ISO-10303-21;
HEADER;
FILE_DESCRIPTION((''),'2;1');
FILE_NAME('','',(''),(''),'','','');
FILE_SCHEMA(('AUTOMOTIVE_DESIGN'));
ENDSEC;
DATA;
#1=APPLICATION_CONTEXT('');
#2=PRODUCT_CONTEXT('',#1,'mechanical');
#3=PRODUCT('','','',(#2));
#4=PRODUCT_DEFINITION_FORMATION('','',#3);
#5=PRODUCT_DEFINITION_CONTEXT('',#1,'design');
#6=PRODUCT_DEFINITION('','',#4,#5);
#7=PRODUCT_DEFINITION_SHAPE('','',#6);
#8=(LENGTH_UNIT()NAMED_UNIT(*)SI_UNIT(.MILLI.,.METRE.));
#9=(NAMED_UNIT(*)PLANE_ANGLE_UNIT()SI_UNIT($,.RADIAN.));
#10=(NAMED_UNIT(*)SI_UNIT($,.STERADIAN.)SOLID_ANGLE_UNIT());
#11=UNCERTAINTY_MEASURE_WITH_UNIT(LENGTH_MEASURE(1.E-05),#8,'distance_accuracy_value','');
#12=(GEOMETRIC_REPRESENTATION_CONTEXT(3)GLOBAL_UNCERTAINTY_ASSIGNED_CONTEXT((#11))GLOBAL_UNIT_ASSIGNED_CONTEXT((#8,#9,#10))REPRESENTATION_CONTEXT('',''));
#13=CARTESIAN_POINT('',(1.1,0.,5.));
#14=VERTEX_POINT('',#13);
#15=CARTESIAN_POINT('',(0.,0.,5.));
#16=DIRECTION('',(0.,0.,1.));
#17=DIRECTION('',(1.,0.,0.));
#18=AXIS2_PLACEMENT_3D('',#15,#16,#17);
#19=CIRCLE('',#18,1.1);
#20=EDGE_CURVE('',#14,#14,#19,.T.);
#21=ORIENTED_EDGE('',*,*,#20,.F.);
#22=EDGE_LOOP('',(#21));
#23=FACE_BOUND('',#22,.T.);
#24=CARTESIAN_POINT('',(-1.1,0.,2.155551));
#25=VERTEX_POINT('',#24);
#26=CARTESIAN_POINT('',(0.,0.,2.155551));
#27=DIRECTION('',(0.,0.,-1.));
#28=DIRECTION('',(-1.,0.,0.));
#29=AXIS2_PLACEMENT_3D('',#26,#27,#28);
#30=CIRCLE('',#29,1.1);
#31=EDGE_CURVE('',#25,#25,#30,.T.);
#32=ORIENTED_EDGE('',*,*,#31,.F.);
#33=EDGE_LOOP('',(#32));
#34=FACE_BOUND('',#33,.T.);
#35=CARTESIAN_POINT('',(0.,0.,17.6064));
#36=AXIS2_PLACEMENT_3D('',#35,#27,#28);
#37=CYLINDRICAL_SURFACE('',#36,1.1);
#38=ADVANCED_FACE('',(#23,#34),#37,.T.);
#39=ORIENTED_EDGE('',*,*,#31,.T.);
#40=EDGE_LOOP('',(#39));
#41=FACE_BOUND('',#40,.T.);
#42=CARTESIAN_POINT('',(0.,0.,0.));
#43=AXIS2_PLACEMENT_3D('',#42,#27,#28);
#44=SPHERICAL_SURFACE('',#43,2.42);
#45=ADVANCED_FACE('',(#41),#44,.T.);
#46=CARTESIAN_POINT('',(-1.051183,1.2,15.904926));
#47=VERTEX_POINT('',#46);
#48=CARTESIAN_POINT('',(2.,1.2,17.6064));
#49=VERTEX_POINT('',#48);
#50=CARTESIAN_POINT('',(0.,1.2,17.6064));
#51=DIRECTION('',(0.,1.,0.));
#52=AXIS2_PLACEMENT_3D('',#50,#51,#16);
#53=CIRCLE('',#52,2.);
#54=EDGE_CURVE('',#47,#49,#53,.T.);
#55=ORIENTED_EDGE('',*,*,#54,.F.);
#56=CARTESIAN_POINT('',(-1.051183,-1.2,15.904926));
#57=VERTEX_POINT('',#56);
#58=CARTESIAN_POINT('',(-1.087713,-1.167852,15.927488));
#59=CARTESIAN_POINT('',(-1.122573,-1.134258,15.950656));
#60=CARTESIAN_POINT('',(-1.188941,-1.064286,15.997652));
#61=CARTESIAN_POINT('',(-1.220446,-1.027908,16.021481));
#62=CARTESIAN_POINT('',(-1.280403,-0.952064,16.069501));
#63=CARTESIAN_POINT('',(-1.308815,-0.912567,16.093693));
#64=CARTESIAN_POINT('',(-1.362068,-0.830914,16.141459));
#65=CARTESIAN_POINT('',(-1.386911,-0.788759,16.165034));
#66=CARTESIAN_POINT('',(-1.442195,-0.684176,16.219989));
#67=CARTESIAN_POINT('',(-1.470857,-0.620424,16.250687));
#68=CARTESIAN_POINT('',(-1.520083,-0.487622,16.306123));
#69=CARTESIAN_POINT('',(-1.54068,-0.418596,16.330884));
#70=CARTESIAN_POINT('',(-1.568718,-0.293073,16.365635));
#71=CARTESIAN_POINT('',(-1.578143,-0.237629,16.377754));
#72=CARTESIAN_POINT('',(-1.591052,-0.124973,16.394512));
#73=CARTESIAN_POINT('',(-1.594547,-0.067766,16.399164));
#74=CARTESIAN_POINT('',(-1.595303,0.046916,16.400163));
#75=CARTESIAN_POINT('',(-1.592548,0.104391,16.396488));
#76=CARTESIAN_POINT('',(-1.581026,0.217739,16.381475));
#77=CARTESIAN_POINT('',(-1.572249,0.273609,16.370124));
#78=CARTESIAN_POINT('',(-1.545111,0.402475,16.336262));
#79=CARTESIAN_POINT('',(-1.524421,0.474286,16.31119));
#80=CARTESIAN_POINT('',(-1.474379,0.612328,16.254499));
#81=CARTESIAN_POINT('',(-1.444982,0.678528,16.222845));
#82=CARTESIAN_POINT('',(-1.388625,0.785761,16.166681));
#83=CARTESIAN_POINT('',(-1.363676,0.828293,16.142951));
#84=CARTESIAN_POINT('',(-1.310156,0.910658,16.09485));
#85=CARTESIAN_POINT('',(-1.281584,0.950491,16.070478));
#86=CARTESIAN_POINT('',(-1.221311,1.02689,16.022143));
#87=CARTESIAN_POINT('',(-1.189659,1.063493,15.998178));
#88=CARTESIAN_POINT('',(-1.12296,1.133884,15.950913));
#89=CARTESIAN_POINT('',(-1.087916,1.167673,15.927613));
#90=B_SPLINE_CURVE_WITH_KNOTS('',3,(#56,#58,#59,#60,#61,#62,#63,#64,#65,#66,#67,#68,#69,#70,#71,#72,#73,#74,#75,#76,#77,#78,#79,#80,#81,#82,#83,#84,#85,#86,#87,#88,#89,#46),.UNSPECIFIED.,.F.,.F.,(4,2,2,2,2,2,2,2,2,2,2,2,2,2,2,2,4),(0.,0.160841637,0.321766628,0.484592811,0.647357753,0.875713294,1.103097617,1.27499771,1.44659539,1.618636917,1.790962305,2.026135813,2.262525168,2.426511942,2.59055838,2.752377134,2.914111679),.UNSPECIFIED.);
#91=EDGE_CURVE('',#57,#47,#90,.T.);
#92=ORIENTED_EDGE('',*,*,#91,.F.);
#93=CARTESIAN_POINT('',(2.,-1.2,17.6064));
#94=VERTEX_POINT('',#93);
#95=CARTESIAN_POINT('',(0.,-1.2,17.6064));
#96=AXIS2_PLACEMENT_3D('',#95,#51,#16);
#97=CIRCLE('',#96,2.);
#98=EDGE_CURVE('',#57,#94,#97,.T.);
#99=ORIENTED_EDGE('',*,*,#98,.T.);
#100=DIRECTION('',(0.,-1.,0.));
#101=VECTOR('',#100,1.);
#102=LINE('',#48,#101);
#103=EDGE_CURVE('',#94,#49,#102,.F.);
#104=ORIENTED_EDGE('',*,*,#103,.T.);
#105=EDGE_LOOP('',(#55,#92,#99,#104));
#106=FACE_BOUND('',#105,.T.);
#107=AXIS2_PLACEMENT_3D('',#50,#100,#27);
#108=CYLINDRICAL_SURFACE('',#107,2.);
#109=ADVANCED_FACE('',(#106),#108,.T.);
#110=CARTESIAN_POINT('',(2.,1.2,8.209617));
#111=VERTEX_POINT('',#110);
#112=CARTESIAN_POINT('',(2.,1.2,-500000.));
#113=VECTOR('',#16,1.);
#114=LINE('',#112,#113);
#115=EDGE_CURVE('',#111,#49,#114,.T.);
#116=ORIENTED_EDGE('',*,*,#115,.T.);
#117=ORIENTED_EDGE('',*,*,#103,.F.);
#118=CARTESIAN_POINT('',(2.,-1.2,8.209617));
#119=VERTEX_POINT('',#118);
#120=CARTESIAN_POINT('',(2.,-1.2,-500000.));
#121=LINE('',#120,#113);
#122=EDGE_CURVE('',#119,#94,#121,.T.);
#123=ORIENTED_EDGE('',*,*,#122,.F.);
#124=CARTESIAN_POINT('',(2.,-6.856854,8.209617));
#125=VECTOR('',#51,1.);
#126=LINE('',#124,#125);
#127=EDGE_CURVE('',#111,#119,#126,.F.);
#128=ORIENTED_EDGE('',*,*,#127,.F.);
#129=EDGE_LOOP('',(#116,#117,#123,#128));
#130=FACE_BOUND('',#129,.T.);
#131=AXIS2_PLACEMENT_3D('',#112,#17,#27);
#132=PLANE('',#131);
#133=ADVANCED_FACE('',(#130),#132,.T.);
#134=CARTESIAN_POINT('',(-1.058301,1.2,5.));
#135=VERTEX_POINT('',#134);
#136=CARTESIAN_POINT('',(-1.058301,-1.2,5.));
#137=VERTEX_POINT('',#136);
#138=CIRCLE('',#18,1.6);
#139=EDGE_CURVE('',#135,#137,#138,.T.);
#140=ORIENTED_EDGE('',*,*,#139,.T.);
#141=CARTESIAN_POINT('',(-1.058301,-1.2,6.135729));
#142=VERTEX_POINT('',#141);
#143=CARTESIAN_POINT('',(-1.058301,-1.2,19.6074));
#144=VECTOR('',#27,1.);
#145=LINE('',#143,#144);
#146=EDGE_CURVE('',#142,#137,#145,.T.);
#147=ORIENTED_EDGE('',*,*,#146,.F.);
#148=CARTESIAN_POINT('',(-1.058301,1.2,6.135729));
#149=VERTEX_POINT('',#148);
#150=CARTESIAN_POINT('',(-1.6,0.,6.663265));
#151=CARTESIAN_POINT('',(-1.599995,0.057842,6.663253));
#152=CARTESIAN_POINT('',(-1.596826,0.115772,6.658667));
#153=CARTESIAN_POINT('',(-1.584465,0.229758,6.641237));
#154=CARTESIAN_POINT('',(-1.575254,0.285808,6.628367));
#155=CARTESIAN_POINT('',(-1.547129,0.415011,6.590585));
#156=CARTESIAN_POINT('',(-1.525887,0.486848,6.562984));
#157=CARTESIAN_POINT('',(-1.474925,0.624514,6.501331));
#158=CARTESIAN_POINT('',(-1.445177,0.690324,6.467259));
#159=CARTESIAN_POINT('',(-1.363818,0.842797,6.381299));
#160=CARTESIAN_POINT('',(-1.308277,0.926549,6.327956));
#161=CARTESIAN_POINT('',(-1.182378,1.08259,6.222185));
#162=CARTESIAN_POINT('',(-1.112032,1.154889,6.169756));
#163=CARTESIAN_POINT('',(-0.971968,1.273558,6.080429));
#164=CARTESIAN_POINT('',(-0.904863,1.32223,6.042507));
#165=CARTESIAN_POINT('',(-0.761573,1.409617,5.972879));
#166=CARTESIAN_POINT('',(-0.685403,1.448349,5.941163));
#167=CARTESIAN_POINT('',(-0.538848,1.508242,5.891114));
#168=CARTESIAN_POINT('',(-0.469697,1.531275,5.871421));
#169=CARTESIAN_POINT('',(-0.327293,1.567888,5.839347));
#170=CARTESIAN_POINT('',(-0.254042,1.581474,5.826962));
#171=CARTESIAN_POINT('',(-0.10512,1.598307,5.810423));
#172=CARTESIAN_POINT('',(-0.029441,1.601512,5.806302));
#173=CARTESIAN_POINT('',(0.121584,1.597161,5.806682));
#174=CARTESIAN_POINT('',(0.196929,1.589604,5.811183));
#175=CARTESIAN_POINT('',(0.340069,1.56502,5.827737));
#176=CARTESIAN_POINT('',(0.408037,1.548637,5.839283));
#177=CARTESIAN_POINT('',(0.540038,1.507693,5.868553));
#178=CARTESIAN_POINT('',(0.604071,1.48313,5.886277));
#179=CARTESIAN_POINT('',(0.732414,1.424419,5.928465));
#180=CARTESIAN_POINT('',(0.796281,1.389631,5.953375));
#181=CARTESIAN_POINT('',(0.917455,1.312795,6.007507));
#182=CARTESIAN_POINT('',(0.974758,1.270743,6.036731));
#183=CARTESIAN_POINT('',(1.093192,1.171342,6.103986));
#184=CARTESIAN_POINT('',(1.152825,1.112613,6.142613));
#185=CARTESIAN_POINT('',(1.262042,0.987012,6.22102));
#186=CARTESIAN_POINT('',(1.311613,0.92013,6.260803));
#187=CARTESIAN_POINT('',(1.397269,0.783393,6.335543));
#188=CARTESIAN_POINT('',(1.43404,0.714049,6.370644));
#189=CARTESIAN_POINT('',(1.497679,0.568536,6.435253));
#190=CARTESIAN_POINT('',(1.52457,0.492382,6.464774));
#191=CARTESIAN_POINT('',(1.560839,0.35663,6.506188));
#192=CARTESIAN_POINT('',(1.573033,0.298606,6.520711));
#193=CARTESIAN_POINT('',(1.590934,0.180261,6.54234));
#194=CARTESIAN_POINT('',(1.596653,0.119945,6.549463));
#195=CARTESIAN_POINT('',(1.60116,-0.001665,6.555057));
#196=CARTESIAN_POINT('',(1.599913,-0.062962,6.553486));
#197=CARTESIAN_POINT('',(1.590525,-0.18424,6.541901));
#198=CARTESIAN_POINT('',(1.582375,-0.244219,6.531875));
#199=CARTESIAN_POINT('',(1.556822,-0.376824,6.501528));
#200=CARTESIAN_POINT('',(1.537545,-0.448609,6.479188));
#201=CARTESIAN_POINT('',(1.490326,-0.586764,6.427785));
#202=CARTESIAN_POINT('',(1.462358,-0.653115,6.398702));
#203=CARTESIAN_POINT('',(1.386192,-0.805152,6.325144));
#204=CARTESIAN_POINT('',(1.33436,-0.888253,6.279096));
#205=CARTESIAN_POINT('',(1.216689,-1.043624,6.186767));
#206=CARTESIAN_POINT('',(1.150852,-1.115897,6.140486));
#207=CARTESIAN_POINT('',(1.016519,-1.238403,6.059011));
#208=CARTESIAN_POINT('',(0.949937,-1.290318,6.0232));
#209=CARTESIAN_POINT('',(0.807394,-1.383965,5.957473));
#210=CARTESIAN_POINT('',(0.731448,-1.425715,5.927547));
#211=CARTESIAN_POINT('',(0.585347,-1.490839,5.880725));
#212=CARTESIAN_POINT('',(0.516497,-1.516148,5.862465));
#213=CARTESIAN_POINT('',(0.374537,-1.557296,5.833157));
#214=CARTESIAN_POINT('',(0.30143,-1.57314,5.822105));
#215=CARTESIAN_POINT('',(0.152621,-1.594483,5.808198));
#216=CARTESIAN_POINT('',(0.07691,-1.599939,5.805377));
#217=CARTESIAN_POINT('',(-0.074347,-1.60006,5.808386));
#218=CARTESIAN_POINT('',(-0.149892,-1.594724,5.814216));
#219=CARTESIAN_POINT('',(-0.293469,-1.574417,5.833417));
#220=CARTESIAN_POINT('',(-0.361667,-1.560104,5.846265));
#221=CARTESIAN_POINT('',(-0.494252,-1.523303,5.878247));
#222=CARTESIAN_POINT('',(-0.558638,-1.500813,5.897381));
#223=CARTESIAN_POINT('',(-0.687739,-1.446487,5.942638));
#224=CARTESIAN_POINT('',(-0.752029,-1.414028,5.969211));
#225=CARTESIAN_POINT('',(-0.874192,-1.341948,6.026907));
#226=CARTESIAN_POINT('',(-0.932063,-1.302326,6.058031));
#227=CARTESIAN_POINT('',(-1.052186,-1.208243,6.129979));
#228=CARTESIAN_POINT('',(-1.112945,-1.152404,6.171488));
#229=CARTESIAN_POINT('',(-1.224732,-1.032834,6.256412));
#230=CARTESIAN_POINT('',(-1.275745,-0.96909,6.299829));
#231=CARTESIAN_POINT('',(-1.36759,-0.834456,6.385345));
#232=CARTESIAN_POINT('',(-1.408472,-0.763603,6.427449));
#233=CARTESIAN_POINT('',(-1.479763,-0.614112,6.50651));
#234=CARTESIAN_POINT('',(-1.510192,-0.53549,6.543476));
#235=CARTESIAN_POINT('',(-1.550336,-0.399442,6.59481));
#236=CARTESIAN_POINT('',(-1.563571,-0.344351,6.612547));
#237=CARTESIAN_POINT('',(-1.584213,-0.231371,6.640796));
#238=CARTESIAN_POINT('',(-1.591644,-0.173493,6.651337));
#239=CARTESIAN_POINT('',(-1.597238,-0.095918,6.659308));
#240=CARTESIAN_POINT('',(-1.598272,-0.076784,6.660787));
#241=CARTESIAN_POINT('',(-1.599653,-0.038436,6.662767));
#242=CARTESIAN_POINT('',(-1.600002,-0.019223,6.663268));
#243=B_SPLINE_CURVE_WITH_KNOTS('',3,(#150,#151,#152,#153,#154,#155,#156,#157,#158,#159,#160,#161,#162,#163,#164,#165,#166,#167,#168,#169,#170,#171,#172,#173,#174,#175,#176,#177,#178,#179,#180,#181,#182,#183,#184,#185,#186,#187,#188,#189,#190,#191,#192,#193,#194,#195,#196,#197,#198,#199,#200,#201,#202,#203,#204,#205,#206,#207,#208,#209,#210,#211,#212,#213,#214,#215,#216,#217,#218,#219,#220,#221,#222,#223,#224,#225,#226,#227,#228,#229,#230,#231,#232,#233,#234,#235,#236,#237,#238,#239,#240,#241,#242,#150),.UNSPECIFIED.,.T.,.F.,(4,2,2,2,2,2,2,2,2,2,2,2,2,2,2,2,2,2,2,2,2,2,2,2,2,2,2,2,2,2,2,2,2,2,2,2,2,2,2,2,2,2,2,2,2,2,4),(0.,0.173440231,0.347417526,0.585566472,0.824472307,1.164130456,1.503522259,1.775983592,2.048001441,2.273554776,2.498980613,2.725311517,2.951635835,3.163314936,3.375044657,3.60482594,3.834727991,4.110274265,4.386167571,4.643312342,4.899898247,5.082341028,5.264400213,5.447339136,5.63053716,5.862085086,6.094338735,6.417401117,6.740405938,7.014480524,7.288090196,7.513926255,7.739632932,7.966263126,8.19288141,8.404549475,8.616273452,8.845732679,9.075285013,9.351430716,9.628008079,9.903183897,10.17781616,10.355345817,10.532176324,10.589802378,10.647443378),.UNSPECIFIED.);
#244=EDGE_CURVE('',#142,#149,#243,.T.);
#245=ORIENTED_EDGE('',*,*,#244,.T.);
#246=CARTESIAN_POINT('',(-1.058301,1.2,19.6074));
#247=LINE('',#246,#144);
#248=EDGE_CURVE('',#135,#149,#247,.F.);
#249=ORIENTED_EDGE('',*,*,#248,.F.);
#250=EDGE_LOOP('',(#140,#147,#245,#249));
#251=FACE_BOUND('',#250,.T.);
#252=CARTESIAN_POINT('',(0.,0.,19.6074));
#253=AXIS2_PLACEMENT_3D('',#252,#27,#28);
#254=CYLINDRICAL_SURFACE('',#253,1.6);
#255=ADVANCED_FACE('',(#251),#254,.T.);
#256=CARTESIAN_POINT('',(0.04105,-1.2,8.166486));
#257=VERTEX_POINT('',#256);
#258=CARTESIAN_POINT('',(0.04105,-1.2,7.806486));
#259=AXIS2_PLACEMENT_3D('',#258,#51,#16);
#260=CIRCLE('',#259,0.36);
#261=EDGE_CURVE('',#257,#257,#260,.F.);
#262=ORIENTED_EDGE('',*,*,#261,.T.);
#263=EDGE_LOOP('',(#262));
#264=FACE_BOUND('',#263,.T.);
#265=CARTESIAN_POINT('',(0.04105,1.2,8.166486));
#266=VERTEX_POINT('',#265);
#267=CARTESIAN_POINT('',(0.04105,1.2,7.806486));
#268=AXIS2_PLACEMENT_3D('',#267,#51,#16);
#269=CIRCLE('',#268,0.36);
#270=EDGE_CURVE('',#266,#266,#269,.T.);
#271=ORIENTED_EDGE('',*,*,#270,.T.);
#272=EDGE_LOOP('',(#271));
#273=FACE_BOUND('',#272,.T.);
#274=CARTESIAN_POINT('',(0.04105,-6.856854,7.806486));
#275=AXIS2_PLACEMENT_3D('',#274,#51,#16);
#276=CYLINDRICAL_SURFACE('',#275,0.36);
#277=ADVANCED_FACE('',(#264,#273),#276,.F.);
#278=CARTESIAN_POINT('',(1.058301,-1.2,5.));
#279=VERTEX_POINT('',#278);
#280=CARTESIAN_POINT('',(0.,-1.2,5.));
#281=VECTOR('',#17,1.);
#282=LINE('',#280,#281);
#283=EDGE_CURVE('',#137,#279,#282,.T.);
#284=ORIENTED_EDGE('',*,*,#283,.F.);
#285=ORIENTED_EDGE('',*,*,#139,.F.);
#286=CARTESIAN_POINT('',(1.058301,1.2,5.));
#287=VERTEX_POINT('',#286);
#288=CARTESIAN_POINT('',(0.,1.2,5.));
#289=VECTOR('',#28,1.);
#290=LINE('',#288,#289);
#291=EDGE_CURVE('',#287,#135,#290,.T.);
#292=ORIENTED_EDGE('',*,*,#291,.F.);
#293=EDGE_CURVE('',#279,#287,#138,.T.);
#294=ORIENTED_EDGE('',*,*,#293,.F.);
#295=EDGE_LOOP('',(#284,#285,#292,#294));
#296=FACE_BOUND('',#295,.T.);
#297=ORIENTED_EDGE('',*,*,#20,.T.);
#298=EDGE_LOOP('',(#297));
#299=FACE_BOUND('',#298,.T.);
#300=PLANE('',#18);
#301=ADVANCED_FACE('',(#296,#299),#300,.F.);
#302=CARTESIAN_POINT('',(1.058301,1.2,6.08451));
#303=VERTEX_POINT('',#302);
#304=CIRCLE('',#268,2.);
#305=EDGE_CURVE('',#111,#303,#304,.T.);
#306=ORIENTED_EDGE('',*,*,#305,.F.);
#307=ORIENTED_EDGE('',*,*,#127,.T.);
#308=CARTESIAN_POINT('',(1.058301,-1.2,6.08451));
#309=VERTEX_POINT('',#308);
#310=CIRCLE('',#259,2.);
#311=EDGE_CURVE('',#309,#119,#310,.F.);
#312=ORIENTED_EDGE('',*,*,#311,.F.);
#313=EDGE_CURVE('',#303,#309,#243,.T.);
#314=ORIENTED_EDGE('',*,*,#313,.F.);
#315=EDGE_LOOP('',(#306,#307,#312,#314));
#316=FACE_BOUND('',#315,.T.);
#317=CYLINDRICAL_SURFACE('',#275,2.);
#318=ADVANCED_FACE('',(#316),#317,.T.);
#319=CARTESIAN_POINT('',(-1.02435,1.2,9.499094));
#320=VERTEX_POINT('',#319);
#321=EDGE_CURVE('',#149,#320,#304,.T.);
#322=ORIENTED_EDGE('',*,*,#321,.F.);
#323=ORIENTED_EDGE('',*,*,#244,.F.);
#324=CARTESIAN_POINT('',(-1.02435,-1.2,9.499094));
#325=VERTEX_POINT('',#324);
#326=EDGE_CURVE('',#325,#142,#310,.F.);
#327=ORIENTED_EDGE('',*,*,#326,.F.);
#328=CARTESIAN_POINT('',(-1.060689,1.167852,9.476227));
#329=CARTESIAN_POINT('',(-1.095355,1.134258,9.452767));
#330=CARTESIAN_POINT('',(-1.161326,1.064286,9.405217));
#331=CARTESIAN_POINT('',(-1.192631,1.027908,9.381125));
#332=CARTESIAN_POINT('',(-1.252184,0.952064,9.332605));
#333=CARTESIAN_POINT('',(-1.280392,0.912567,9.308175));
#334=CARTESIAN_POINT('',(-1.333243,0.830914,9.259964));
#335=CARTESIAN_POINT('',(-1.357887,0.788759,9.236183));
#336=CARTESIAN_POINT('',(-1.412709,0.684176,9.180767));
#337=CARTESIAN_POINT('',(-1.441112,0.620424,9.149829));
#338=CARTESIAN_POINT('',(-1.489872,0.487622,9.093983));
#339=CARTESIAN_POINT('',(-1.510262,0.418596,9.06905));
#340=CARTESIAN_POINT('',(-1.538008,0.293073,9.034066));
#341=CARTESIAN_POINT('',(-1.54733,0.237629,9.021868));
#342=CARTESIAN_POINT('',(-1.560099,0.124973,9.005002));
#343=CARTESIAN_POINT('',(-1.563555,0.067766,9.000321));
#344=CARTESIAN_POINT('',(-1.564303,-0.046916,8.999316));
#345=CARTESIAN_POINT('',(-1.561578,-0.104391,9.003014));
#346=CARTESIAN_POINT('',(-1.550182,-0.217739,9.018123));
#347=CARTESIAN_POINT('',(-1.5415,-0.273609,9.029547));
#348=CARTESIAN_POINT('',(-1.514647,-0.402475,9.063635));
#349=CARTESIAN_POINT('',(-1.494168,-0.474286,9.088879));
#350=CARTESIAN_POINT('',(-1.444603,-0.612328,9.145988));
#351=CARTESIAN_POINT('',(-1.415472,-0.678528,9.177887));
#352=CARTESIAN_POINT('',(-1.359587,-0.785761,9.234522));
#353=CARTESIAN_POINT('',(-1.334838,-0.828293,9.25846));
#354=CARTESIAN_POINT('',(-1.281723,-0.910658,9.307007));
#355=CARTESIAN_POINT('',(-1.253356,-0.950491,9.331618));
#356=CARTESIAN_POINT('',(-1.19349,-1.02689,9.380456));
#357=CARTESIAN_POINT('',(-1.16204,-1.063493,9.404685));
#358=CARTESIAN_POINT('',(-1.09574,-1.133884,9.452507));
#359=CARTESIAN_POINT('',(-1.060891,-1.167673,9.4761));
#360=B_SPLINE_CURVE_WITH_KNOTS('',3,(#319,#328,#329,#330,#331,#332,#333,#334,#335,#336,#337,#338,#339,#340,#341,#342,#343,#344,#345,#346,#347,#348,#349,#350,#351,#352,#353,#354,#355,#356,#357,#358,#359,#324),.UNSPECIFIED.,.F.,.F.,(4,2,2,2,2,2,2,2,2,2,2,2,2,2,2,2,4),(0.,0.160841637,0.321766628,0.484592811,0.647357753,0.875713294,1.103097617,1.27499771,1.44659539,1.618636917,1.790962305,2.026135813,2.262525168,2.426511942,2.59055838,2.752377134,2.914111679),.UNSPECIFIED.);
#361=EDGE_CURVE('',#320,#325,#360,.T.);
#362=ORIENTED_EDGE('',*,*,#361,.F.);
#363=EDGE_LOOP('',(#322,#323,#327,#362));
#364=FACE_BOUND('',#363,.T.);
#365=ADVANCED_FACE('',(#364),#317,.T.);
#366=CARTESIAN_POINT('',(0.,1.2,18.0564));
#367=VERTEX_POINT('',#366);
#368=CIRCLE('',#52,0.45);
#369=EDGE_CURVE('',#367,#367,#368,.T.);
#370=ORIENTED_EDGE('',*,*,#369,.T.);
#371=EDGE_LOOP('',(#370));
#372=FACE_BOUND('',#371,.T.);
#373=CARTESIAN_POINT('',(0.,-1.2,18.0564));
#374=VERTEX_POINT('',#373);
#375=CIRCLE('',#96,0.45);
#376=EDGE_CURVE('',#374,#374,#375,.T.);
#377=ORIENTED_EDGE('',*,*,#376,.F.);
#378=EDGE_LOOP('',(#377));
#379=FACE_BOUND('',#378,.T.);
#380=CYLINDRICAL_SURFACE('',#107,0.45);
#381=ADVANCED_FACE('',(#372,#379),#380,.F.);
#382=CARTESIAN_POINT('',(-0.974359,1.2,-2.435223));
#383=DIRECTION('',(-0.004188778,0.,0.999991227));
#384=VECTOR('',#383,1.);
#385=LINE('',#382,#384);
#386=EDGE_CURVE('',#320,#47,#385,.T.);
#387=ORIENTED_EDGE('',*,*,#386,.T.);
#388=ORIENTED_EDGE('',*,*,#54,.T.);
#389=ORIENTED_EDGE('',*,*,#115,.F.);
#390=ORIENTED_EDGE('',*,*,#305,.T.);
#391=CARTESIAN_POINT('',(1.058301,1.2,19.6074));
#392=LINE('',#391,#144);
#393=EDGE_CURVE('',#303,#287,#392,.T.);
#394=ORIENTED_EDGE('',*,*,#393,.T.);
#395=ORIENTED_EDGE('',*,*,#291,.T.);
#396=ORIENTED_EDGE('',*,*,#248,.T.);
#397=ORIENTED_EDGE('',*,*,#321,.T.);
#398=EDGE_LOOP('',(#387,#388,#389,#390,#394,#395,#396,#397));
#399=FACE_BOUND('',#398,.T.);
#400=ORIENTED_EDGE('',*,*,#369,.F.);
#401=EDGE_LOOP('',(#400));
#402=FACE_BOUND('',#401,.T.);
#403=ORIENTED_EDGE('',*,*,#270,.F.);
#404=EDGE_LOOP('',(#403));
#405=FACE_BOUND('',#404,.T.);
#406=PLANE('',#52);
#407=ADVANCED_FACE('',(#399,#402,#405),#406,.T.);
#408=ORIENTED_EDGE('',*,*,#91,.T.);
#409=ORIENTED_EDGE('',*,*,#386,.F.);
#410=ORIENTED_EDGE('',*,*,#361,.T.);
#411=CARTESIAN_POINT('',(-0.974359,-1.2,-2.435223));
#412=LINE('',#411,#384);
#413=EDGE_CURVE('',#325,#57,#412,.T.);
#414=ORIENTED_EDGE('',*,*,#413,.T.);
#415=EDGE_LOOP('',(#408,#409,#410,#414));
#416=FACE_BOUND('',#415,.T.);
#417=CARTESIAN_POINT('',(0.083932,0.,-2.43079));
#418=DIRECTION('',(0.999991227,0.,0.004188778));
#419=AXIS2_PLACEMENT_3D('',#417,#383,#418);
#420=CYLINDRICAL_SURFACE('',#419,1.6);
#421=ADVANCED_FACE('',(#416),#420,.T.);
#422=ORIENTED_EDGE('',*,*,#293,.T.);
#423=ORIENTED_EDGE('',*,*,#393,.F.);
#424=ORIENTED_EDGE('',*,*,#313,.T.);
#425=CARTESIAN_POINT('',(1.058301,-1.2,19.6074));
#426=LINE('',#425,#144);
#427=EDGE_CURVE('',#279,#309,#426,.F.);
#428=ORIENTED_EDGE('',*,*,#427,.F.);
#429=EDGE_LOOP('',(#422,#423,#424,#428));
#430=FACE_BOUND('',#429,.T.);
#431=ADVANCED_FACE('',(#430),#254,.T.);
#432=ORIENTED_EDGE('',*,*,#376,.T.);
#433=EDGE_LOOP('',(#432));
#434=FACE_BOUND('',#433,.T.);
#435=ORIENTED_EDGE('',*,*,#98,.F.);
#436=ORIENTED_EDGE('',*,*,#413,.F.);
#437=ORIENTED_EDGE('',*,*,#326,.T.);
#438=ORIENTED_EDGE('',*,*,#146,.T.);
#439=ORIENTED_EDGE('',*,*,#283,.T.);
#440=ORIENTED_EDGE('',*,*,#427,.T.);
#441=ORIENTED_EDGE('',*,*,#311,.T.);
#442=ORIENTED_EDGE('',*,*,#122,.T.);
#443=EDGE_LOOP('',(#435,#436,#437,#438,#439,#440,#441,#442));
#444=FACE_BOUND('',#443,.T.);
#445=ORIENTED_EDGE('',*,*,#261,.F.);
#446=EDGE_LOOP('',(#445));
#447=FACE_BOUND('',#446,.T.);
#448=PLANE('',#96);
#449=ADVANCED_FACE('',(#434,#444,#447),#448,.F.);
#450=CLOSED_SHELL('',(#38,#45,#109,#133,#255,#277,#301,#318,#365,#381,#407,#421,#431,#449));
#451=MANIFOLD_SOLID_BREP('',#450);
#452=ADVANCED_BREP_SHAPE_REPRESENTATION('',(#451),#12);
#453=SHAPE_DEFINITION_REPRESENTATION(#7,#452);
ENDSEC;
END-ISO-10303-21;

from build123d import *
from build123d.topology import SkipClean

# Parameters (mm, degrees)
SKETCH_2_R                        = 1.1
EXTRUDE_1_DEPTH                   = 17.6064
CUT_EXTRUDE_1_DEPTH               = 18.93594504
CUT_EXTRUDE_1_DEPTH_BACK          = 18.93594504
SKETCH_3_R                        = 2
SKETCH_3_3_R                      = 2
SKETCH_3_3_R_2                    = 0.45
EXTRUDE_2_DEPTH                   = 1.2
EXTRUDE_8_REACH                   = 22.084
SKETCH_7_R                        = 2
SKETCH_7_R_2                      = 0.36
EXTRUDE_9_REACH                   = 17.744
EXTRUDE_9_END_RADIUS              = 2
EXTRUDE_9_DIRECTION_2_REACH       = 17.744
EXTRUDE_9_DIRECTION_2_END_RADIUS  = 2
SKETCH_11_R                       = 0.36
CUT_EXTRUDE_2_DEPTH               = 21.084116234
EXTRUDE_10_REACH                  = 14.883
EXTRUDE_10_END_RADIUS             = 2
EXTRUDE_10_DIRECTION_2_REACH      = 14.883
EXTRUDE_10_DIRECTION_2_END_RADIUS = 2
EXTRUDE_11_REACH                  = 17.002
EXTRUDE_11_END_RADIUS             = 2
SKETCH_13_R                       = 1.6
SKETCH_14_W                       = 7.40434877
SKETCH_14_H                       = 4.06336213
CUT_EXTRUDE_3_DEPTH               = 21.084116234
SKETCH_15_W                       = 5.898333764
SKETCH_15_H                       = 3.047472445
CUT_EXTRUDE_4_DEPTH               = 21.084116234


with BuildPart() as part:
    # 草图1 → 旋转1 (revolve)
    with SkipClean():  # the faces are left unmerged after this step: merging them gives an invalid solid
        with BuildSketch(Plane.XY):
            with BuildLine():
                ThreePointArc((2.42, 0), (1.71119841, 1.71119841), (0, 2.42))
                Line((0, 2.42), (0, -2.42))
                ThreePointArc((0, -2.42), (1.71119841, -1.71119841), (2.42, 0))
            make_face()
            with BuildLine():
                Line((0, -2.42), (0, 2.42))
                ThreePointArc((0, 2.42), (-2.42, 0), (0, -2.42))
            make_face()
        revolve(axis=Axis((0, 2.42, 0), (0, -1, 0)))

    # 草图2 → 凸台-拉伸1 (add)
    with SkipClean():  # the faces are left unmerged after this step: merging them gives an invalid solid
        with BuildSketch(Plane.XY):
            with Locations(Location((0, 0, 0), (0, 0, 180))):
                Circle(SKETCH_2_R)
        extrude(amount=EXTRUDE_1_DEPTH)

    # 草图3 → 切除-拉伸1 (cut, two sides: drawn at the far end of the back side and taken through both)
    with SkipClean():  # the faces are left unmerged after this step: merging them gives an invalid solid
        with BuildSketch(Plane(origin=(0, 0, 0), x_dir=(1, 0, 0), z_dir=(0, 1, 0)).offset(-CUT_EXTRUDE_1_DEPTH_BACK)):
            with Locations((0, -17.6064)):
                Circle(SKETCH_3_R)
        extrude(amount=CUT_EXTRUDE_1_DEPTH + CUT_EXTRUDE_1_DEPTH_BACK, mode=Mode.SUBTRACT)

    # 草图3<3> → 凸台-拉伸2 (add, symmetric)
    with SkipClean():  # the faces are left unmerged after this step: merging them gives an invalid solid
        with BuildSketch(Plane(origin=(0, 0, 0), x_dir=(1, 0, 0), z_dir=(0, 1, 0))):
            with Locations(Location((0, -17.6064, 0), (0, 0, 270))):
                Circle(SKETCH_3_3_R)
            with Locations(Location((0, -17.6064, 0), (0, 0, 270))):
                Circle(SKETCH_3_3_R_2, mode=Mode.SUBTRACT)
        extrude(amount=EXTRUDE_2_DEPTH, both=True)

    # 凸台-拉伸8: up to this face of the body (flat: up to its plane)
    extrude_8_end = Plane(part.part.faces().sort_by_distance((0, -1.2, 15.662968542))[0])
    # 草图7 → 凸台-拉伸8 (add, up to the picked face)
    with BuildSketch(Plane(origin=(0, 1.2, 0), x_dir=(1, 0, 0), z_dir=(0, 1, 0)), mode=Mode.PRIVATE) as extrude_8_sk1:
        with Locations(Location((0.041050024, -7.806485975, 0), (0, 0, 270))):
            Circle(SKETCH_7_R)
        with Locations(Location((0.041050024, -7.806485975, 0), (0, 0, 270))):
            Circle(SKETCH_7_R_2, mode=Mode.SUBTRACT)
    extrude_8_tool1 = split(extrude(extrude_8_sk1.sketch, amount=-EXTRUDE_8_REACH, mode=Mode.PRIVATE), bisect_by=extrude_8_end, keep=Keep.BOTH, mode=Mode.PRIVATE)
    add(extrude_8_tool1.solids().sort_by(Axis((0.04105, 1.2, 5.863055), (0, -1, 0)))[0])

    # 凸台-拉伸9: up to this cylinder (the profile starts outside it)
    with SkipClean():  # the faces are left unmerged after this step: merging them gives an invalid solid
        extrude_9_end = Plane(origin=(0.041050024, 0, 7.806485975), z_dir=(0, 1, 0)) * Cylinder(EXTRUDE_9_END_RADIUS, 40.488, mode=Mode.PRIVATE)
        # 草图10 → 凸台-拉伸9 (add, up to the surface)
        with BuildSketch(Plane(origin=(0.020525012, 1.2, 12.706442988), x_dir=(-0.9999912270311377, 0, -0.0041887779554037885), z_dir=(0.0041887779554037885, 0, -0.9999912270311377)), mode=Mode.PRIVATE) as extrude_9_sk1:
            with BuildLine():
                Line((1.058300524, 0), (0, 0))
                Line((0, 0), (0, -2.4))
                Line((0, -2.4), (1.058300524, -2.4))
                ThreePointArc((1.058300524, -2.4), (1.458300524, -1.858300524), (1.6, -1.2))
                ThreePointArc((1.6, -1.2), (1.458300524, -0.541699476), (1.058300524, 0))
            make_face()
        extrude_9_tool1 = extrude(extrude_9_sk1.sketch, amount=EXTRUDE_9_REACH, mode=Mode.PRIVATE) - extrude_9_end
        add(extrude_9_tool1.solids().sort_by_distance((-0.704839, 0, 12.703405))[0])
        # 草图10 → 凸台-拉伸9 (add, up to the surface)
        with BuildSketch(Plane(origin=(0.020525012, 1.2, 12.706442988), x_dir=(-0.9999912270311377, 0, -0.0041887779554037885), z_dir=(0.0041887779554037885, 0, -0.9999912270311377)), mode=Mode.PRIVATE) as extrude_9_sk2:
            with BuildLine():
                Line((0, -2.4), (0, 0))
                Line((0, 0), (-1.058300524, 0))
                ThreePointArc((-1.058300524, 0), (-1.6, -1.2), (-1.058300524, -2.4))
                Line((-1.058300524, -2.4), (0, -2.4))
            make_face()
        extrude_9_tool2 = extrude(extrude_9_sk2.sketch, amount=EXTRUDE_9_REACH, mode=Mode.PRIVATE) - extrude_9_end
        add(extrude_9_tool2.solids().sort_by_distance((0.745889, 0, 12.709481))[0])
        # 草图10 → 凸台-拉伸9 (add, up to the surface)
        with BuildSketch(Plane(origin=(0.020525012, 1.2, 12.706442988), x_dir=(-0.9999912270311377, 0, -0.0041887779554037885), z_dir=(0.0041887779554037885, 0, -0.9999912270311377)), mode=Mode.PRIVATE) as extrude_9_sk3:
            with BuildLine():
                Line((1.058300524, 0), (0, 0))
                Line((0, 0), (0, -2.4))
                Line((0, -2.4), (1.058300524, -2.4))
                ThreePointArc((1.058300524, -2.4), (1.458300524, -1.858300524), (1.6, -1.2))
                ThreePointArc((1.6, -1.2), (1.458300524, -0.541699476), (1.058300524, 0))
            make_face()
        extrude_9_tool3 = extrude(extrude_9_sk3.sketch, amount=EXTRUDE_9_REACH, mode=Mode.PRIVATE) - extrude_9_end
        add(extrude_9_tool3.solids().sort_by_distance((-0.704839, 0, 12.703405))[0])
        # 草图10 → 凸台-拉伸9 (add, up to the surface)
        with BuildSketch(Plane(origin=(0.020525012, 1.2, 12.706442988), x_dir=(-0.9999912270311377, 0, -0.0041887779554037885), z_dir=(0.0041887779554037885, 0, -0.9999912270311377)), mode=Mode.PRIVATE) as extrude_9_sk4:
            with BuildLine():
                Line((0, -2.4), (0, 0))
                Line((0, 0), (-1.058300524, 0))
                ThreePointArc((-1.058300524, 0), (-1.6, -1.2), (-1.058300524, -2.4))
                Line((-1.058300524, -2.4), (0, -2.4))
            make_face()
        extrude_9_tool4 = extrude(extrude_9_sk4.sketch, amount=EXTRUDE_9_REACH, mode=Mode.PRIVATE) - extrude_9_end
        add(extrude_9_tool4.solids().sort_by_distance((0.745889, 0, 12.709481))[0])

    # 凸台-拉伸9 direction 2: up to this cylinder (the profile starts outside it)
    with SkipClean():  # the faces are left unmerged after this step: merging them gives an invalid solid
        extrude_9_direction_2_end = Plane(origin=(0, 0, 17.6064), z_dir=(0, -1, 0)) * Cylinder(EXTRUDE_9_DIRECTION_2_END_RADIUS, 40.488, mode=Mode.PRIVATE)
        # 草图10 → 凸台-拉伸9 direction 2 (add, up to the surface)
        with BuildSketch(Plane(origin=(0.020525012, 1.2, 12.706442988), x_dir=(-0.9999912270311377, 0, -0.0041887779554037885), z_dir=(0.0041887779554037885, 0, -0.9999912270311377)), mode=Mode.PRIVATE) as extrude_9_direction_2_sk1:
            with BuildLine():
                Line((1.058300524, 0), (0, 0))
                Line((0, 0), (0, -2.4))
                Line((0, -2.4), (1.058300524, -2.4))
                ThreePointArc((1.058300524, -2.4), (1.458300524, -1.858300524), (1.6, -1.2))
                ThreePointArc((1.6, -1.2), (1.458300524, -0.541699476), (1.058300524, 0))
            make_face()
        extrude_9_direction_2_tool1 = extrude(extrude_9_direction_2_sk1.sketch, amount=-EXTRUDE_9_DIRECTION_2_REACH, mode=Mode.PRIVATE) - extrude_9_direction_2_end
        add(extrude_9_direction_2_tool1.solids().sort_by_distance((-0.704839, 0, 12.703405))[0])
        # 草图10 → 凸台-拉伸9 direction 2 (add, up to the surface)
        with BuildSketch(Plane(origin=(0.020525012, 1.2, 12.706442988), x_dir=(-0.9999912270311377, 0, -0.0041887779554037885), z_dir=(0.0041887779554037885, 0, -0.9999912270311377)), mode=Mode.PRIVATE) as extrude_9_direction_2_sk2:
            with BuildLine():
                Line((0, -2.4), (0, 0))
                Line((0, 0), (-1.058300524, 0))
                ThreePointArc((-1.058300524, 0), (-1.6, -1.2), (-1.058300524, -2.4))
                Line((-1.058300524, -2.4), (0, -2.4))
            make_face()
        extrude_9_direction_2_tool2 = extrude(extrude_9_direction_2_sk2.sketch, amount=-EXTRUDE_9_DIRECTION_2_REACH, mode=Mode.PRIVATE) - extrude_9_direction_2_end
        add(extrude_9_direction_2_tool2.solids().sort_by_distance((0.745889, 0, 12.709481))[0])
        # 草图10 → 凸台-拉伸9 direction 2 (add, up to the surface)
        with BuildSketch(Plane(origin=(0.020525012, 1.2, 12.706442988), x_dir=(-0.9999912270311377, 0, -0.0041887779554037885), z_dir=(0.0041887779554037885, 0, -0.9999912270311377)), mode=Mode.PRIVATE) as extrude_9_direction_2_sk3:
            with BuildLine():
                Line((1.058300524, 0), (0, 0))
                Line((0, 0), (0, -2.4))
                Line((0, -2.4), (1.058300524, -2.4))
                ThreePointArc((1.058300524, -2.4), (1.458300524, -1.858300524), (1.6, -1.2))
                ThreePointArc((1.6, -1.2), (1.458300524, -0.541699476), (1.058300524, 0))
            make_face()
        extrude_9_direction_2_tool3 = extrude(extrude_9_direction_2_sk3.sketch, amount=-EXTRUDE_9_DIRECTION_2_REACH, mode=Mode.PRIVATE) - extrude_9_direction_2_end
        add(extrude_9_direction_2_tool3.solids().sort_by_distance((-0.704839, 0, 12.703405))[0])
        # 草图10 → 凸台-拉伸9 direction 2 (add, up to the surface)
        with BuildSketch(Plane(origin=(0.020525012, 1.2, 12.706442988), x_dir=(-0.9999912270311377, 0, -0.0041887779554037885), z_dir=(0.0041887779554037885, 0, -0.9999912270311377)), mode=Mode.PRIVATE) as extrude_9_direction_2_sk4:
            with BuildLine():
                Line((0, -2.4), (0, 0))
                Line((0, 0), (-1.058300524, 0))
                ThreePointArc((-1.058300524, 0), (-1.6, -1.2), (-1.058300524, -2.4))
                Line((-1.058300524, -2.4), (0, -2.4))
            make_face()
        extrude_9_direction_2_tool4 = extrude(extrude_9_direction_2_sk4.sketch, amount=-EXTRUDE_9_DIRECTION_2_REACH, mode=Mode.PRIVATE) - extrude_9_direction_2_end
        add(extrude_9_direction_2_tool4.solids().sort_by_distance((0.745889, 0, 12.709481))[0])

    # 草图11 → 切除-拉伸2 (cut, through all)
    with SkipClean():  # the faces are left unmerged after this step: merging them gives an invalid solid
        with BuildSketch(Plane(origin=(0, 1.2, 0), x_dir=(1, 0, 0), z_dir=(0, 1, 0))):
            with Locations(Location((0.041050024, -7.806485975, 0), (0, 0, 270))):
                Circle(SKETCH_11_R)
        extrude(amount=-CUT_EXTRUDE_2_DEPTH, mode=Mode.SUBTRACT)

    # 凸台-拉伸10: up to this cylinder (the profile starts outside it)
    with SkipClean():  # the faces are left unmerged after this step: merging them gives an invalid solid
        extrude_10_end = Plane(origin=(0.041050024, 0, 7.806485975), z_dir=(0, 1, 0)) * Cylinder(EXTRUDE_10_END_RADIUS, 34.766, mode=Mode.PRIVATE)
        # 草图12 → 凸台-拉伸10 (add, up to the surface)
        with BuildSketch(Plane.XY.offset(10), mode=Mode.PRIVATE) as extrude_10_sk1:
            Polygon((0, 0), (0, 1.2), (2, 1.2), (2, -1.2), (0, -1.2), align=None)
        extrude_10_tool1 = extrude(extrude_10_sk1.sketch, amount=-EXTRUDE_10_REACH, mode=Mode.PRIVATE) - extrude_10_end
        add(extrude_10_tool1.solids().sort_by_distance((1, 0, 10))[0])

    # 凸台-拉伸10 direction 2: up to this cylinder (the profile starts outside it)
    with SkipClean():  # the faces are left unmerged after this step: merging them gives an invalid solid
        extrude_10_direction_2_end = Plane(origin=(0, 0, 17.6064), z_dir=(0, -1, 0)) * Cylinder(EXTRUDE_10_DIRECTION_2_END_RADIUS, 34.766, mode=Mode.PRIVATE)
        # 草图12 → 凸台-拉伸10 direction 2 (add, up to the surface)
        with BuildSketch(Plane.XY.offset(10), mode=Mode.PRIVATE) as extrude_10_direction_2_sk1:
            Polygon((0, 0), (0, 1.2), (2, 1.2), (2, -1.2), (0, -1.2), align=None)
        extrude_10_direction_2_tool1 = extrude(extrude_10_direction_2_sk1.sketch, amount=EXTRUDE_10_DIRECTION_2_REACH, mode=Mode.PRIVATE) - extrude_10_direction_2_end
        add(extrude_10_direction_2_tool1.solids().sort_by_distance((1, 0, 10))[0])

    # 凸台-拉伸11: up to this cylinder (the profile starts outside it)
    with SkipClean():  # the faces are left unmerged after this step: merging them gives an invalid solid
        extrude_11_end = Plane(origin=(0.041050024, 0, 7.806485975), z_dir=(0, 1, 0)) * Cylinder(EXTRUDE_11_END_RADIUS, 39.004, mode=Mode.PRIVATE)
        # 草图13 → 凸台-拉伸11 (add, up to the surface)
        with BuildSketch(Plane.XY.offset(5), mode=Mode.PRIVATE) as extrude_11_sk1:
            with Locations(Location((0, 0, 0), (0, 0, 131.409594385))):
                Circle(SKETCH_13_R)
        extrude_11_tool1 = extrude(extrude_11_sk1.sketch, amount=EXTRUDE_11_REACH, mode=Mode.PRIVATE) - extrude_11_end
        add(extrude_11_tool1.solids().sort_by_distance((0, 0, 5))[0])

    # 草图14 → 切除-拉伸3 (cut, through all)
    with SkipClean():  # the faces are left unmerged after this step: merging them gives an invalid solid
        with BuildSketch(Plane(origin=(0, 1.2, 0), x_dir=(1, 0, 0), z_dir=(0, 1, 0))):
            with Locations((0.094582813, -5.966785927)):
                Rectangle(SKETCH_14_W, SKETCH_14_H)
        extrude(amount=CUT_EXTRUDE_3_DEPTH, mode=Mode.SUBTRACT)

    # 草图15 → 切除-拉伸4 (cut, through all)
    with SkipClean():  # the faces are left unmerged after this step: merging them gives an invalid solid
        with BuildSketch(Plane.XZ.offset(1.2)):
            with Locations((0.081921302, 5.906181286)):
                Rectangle(SKETCH_15_W, SKETCH_15_H)
        extrude(amount=CUT_EXTRUDE_4_DEPTH, mode=Mode.SUBTRACT)


solid = part.part
